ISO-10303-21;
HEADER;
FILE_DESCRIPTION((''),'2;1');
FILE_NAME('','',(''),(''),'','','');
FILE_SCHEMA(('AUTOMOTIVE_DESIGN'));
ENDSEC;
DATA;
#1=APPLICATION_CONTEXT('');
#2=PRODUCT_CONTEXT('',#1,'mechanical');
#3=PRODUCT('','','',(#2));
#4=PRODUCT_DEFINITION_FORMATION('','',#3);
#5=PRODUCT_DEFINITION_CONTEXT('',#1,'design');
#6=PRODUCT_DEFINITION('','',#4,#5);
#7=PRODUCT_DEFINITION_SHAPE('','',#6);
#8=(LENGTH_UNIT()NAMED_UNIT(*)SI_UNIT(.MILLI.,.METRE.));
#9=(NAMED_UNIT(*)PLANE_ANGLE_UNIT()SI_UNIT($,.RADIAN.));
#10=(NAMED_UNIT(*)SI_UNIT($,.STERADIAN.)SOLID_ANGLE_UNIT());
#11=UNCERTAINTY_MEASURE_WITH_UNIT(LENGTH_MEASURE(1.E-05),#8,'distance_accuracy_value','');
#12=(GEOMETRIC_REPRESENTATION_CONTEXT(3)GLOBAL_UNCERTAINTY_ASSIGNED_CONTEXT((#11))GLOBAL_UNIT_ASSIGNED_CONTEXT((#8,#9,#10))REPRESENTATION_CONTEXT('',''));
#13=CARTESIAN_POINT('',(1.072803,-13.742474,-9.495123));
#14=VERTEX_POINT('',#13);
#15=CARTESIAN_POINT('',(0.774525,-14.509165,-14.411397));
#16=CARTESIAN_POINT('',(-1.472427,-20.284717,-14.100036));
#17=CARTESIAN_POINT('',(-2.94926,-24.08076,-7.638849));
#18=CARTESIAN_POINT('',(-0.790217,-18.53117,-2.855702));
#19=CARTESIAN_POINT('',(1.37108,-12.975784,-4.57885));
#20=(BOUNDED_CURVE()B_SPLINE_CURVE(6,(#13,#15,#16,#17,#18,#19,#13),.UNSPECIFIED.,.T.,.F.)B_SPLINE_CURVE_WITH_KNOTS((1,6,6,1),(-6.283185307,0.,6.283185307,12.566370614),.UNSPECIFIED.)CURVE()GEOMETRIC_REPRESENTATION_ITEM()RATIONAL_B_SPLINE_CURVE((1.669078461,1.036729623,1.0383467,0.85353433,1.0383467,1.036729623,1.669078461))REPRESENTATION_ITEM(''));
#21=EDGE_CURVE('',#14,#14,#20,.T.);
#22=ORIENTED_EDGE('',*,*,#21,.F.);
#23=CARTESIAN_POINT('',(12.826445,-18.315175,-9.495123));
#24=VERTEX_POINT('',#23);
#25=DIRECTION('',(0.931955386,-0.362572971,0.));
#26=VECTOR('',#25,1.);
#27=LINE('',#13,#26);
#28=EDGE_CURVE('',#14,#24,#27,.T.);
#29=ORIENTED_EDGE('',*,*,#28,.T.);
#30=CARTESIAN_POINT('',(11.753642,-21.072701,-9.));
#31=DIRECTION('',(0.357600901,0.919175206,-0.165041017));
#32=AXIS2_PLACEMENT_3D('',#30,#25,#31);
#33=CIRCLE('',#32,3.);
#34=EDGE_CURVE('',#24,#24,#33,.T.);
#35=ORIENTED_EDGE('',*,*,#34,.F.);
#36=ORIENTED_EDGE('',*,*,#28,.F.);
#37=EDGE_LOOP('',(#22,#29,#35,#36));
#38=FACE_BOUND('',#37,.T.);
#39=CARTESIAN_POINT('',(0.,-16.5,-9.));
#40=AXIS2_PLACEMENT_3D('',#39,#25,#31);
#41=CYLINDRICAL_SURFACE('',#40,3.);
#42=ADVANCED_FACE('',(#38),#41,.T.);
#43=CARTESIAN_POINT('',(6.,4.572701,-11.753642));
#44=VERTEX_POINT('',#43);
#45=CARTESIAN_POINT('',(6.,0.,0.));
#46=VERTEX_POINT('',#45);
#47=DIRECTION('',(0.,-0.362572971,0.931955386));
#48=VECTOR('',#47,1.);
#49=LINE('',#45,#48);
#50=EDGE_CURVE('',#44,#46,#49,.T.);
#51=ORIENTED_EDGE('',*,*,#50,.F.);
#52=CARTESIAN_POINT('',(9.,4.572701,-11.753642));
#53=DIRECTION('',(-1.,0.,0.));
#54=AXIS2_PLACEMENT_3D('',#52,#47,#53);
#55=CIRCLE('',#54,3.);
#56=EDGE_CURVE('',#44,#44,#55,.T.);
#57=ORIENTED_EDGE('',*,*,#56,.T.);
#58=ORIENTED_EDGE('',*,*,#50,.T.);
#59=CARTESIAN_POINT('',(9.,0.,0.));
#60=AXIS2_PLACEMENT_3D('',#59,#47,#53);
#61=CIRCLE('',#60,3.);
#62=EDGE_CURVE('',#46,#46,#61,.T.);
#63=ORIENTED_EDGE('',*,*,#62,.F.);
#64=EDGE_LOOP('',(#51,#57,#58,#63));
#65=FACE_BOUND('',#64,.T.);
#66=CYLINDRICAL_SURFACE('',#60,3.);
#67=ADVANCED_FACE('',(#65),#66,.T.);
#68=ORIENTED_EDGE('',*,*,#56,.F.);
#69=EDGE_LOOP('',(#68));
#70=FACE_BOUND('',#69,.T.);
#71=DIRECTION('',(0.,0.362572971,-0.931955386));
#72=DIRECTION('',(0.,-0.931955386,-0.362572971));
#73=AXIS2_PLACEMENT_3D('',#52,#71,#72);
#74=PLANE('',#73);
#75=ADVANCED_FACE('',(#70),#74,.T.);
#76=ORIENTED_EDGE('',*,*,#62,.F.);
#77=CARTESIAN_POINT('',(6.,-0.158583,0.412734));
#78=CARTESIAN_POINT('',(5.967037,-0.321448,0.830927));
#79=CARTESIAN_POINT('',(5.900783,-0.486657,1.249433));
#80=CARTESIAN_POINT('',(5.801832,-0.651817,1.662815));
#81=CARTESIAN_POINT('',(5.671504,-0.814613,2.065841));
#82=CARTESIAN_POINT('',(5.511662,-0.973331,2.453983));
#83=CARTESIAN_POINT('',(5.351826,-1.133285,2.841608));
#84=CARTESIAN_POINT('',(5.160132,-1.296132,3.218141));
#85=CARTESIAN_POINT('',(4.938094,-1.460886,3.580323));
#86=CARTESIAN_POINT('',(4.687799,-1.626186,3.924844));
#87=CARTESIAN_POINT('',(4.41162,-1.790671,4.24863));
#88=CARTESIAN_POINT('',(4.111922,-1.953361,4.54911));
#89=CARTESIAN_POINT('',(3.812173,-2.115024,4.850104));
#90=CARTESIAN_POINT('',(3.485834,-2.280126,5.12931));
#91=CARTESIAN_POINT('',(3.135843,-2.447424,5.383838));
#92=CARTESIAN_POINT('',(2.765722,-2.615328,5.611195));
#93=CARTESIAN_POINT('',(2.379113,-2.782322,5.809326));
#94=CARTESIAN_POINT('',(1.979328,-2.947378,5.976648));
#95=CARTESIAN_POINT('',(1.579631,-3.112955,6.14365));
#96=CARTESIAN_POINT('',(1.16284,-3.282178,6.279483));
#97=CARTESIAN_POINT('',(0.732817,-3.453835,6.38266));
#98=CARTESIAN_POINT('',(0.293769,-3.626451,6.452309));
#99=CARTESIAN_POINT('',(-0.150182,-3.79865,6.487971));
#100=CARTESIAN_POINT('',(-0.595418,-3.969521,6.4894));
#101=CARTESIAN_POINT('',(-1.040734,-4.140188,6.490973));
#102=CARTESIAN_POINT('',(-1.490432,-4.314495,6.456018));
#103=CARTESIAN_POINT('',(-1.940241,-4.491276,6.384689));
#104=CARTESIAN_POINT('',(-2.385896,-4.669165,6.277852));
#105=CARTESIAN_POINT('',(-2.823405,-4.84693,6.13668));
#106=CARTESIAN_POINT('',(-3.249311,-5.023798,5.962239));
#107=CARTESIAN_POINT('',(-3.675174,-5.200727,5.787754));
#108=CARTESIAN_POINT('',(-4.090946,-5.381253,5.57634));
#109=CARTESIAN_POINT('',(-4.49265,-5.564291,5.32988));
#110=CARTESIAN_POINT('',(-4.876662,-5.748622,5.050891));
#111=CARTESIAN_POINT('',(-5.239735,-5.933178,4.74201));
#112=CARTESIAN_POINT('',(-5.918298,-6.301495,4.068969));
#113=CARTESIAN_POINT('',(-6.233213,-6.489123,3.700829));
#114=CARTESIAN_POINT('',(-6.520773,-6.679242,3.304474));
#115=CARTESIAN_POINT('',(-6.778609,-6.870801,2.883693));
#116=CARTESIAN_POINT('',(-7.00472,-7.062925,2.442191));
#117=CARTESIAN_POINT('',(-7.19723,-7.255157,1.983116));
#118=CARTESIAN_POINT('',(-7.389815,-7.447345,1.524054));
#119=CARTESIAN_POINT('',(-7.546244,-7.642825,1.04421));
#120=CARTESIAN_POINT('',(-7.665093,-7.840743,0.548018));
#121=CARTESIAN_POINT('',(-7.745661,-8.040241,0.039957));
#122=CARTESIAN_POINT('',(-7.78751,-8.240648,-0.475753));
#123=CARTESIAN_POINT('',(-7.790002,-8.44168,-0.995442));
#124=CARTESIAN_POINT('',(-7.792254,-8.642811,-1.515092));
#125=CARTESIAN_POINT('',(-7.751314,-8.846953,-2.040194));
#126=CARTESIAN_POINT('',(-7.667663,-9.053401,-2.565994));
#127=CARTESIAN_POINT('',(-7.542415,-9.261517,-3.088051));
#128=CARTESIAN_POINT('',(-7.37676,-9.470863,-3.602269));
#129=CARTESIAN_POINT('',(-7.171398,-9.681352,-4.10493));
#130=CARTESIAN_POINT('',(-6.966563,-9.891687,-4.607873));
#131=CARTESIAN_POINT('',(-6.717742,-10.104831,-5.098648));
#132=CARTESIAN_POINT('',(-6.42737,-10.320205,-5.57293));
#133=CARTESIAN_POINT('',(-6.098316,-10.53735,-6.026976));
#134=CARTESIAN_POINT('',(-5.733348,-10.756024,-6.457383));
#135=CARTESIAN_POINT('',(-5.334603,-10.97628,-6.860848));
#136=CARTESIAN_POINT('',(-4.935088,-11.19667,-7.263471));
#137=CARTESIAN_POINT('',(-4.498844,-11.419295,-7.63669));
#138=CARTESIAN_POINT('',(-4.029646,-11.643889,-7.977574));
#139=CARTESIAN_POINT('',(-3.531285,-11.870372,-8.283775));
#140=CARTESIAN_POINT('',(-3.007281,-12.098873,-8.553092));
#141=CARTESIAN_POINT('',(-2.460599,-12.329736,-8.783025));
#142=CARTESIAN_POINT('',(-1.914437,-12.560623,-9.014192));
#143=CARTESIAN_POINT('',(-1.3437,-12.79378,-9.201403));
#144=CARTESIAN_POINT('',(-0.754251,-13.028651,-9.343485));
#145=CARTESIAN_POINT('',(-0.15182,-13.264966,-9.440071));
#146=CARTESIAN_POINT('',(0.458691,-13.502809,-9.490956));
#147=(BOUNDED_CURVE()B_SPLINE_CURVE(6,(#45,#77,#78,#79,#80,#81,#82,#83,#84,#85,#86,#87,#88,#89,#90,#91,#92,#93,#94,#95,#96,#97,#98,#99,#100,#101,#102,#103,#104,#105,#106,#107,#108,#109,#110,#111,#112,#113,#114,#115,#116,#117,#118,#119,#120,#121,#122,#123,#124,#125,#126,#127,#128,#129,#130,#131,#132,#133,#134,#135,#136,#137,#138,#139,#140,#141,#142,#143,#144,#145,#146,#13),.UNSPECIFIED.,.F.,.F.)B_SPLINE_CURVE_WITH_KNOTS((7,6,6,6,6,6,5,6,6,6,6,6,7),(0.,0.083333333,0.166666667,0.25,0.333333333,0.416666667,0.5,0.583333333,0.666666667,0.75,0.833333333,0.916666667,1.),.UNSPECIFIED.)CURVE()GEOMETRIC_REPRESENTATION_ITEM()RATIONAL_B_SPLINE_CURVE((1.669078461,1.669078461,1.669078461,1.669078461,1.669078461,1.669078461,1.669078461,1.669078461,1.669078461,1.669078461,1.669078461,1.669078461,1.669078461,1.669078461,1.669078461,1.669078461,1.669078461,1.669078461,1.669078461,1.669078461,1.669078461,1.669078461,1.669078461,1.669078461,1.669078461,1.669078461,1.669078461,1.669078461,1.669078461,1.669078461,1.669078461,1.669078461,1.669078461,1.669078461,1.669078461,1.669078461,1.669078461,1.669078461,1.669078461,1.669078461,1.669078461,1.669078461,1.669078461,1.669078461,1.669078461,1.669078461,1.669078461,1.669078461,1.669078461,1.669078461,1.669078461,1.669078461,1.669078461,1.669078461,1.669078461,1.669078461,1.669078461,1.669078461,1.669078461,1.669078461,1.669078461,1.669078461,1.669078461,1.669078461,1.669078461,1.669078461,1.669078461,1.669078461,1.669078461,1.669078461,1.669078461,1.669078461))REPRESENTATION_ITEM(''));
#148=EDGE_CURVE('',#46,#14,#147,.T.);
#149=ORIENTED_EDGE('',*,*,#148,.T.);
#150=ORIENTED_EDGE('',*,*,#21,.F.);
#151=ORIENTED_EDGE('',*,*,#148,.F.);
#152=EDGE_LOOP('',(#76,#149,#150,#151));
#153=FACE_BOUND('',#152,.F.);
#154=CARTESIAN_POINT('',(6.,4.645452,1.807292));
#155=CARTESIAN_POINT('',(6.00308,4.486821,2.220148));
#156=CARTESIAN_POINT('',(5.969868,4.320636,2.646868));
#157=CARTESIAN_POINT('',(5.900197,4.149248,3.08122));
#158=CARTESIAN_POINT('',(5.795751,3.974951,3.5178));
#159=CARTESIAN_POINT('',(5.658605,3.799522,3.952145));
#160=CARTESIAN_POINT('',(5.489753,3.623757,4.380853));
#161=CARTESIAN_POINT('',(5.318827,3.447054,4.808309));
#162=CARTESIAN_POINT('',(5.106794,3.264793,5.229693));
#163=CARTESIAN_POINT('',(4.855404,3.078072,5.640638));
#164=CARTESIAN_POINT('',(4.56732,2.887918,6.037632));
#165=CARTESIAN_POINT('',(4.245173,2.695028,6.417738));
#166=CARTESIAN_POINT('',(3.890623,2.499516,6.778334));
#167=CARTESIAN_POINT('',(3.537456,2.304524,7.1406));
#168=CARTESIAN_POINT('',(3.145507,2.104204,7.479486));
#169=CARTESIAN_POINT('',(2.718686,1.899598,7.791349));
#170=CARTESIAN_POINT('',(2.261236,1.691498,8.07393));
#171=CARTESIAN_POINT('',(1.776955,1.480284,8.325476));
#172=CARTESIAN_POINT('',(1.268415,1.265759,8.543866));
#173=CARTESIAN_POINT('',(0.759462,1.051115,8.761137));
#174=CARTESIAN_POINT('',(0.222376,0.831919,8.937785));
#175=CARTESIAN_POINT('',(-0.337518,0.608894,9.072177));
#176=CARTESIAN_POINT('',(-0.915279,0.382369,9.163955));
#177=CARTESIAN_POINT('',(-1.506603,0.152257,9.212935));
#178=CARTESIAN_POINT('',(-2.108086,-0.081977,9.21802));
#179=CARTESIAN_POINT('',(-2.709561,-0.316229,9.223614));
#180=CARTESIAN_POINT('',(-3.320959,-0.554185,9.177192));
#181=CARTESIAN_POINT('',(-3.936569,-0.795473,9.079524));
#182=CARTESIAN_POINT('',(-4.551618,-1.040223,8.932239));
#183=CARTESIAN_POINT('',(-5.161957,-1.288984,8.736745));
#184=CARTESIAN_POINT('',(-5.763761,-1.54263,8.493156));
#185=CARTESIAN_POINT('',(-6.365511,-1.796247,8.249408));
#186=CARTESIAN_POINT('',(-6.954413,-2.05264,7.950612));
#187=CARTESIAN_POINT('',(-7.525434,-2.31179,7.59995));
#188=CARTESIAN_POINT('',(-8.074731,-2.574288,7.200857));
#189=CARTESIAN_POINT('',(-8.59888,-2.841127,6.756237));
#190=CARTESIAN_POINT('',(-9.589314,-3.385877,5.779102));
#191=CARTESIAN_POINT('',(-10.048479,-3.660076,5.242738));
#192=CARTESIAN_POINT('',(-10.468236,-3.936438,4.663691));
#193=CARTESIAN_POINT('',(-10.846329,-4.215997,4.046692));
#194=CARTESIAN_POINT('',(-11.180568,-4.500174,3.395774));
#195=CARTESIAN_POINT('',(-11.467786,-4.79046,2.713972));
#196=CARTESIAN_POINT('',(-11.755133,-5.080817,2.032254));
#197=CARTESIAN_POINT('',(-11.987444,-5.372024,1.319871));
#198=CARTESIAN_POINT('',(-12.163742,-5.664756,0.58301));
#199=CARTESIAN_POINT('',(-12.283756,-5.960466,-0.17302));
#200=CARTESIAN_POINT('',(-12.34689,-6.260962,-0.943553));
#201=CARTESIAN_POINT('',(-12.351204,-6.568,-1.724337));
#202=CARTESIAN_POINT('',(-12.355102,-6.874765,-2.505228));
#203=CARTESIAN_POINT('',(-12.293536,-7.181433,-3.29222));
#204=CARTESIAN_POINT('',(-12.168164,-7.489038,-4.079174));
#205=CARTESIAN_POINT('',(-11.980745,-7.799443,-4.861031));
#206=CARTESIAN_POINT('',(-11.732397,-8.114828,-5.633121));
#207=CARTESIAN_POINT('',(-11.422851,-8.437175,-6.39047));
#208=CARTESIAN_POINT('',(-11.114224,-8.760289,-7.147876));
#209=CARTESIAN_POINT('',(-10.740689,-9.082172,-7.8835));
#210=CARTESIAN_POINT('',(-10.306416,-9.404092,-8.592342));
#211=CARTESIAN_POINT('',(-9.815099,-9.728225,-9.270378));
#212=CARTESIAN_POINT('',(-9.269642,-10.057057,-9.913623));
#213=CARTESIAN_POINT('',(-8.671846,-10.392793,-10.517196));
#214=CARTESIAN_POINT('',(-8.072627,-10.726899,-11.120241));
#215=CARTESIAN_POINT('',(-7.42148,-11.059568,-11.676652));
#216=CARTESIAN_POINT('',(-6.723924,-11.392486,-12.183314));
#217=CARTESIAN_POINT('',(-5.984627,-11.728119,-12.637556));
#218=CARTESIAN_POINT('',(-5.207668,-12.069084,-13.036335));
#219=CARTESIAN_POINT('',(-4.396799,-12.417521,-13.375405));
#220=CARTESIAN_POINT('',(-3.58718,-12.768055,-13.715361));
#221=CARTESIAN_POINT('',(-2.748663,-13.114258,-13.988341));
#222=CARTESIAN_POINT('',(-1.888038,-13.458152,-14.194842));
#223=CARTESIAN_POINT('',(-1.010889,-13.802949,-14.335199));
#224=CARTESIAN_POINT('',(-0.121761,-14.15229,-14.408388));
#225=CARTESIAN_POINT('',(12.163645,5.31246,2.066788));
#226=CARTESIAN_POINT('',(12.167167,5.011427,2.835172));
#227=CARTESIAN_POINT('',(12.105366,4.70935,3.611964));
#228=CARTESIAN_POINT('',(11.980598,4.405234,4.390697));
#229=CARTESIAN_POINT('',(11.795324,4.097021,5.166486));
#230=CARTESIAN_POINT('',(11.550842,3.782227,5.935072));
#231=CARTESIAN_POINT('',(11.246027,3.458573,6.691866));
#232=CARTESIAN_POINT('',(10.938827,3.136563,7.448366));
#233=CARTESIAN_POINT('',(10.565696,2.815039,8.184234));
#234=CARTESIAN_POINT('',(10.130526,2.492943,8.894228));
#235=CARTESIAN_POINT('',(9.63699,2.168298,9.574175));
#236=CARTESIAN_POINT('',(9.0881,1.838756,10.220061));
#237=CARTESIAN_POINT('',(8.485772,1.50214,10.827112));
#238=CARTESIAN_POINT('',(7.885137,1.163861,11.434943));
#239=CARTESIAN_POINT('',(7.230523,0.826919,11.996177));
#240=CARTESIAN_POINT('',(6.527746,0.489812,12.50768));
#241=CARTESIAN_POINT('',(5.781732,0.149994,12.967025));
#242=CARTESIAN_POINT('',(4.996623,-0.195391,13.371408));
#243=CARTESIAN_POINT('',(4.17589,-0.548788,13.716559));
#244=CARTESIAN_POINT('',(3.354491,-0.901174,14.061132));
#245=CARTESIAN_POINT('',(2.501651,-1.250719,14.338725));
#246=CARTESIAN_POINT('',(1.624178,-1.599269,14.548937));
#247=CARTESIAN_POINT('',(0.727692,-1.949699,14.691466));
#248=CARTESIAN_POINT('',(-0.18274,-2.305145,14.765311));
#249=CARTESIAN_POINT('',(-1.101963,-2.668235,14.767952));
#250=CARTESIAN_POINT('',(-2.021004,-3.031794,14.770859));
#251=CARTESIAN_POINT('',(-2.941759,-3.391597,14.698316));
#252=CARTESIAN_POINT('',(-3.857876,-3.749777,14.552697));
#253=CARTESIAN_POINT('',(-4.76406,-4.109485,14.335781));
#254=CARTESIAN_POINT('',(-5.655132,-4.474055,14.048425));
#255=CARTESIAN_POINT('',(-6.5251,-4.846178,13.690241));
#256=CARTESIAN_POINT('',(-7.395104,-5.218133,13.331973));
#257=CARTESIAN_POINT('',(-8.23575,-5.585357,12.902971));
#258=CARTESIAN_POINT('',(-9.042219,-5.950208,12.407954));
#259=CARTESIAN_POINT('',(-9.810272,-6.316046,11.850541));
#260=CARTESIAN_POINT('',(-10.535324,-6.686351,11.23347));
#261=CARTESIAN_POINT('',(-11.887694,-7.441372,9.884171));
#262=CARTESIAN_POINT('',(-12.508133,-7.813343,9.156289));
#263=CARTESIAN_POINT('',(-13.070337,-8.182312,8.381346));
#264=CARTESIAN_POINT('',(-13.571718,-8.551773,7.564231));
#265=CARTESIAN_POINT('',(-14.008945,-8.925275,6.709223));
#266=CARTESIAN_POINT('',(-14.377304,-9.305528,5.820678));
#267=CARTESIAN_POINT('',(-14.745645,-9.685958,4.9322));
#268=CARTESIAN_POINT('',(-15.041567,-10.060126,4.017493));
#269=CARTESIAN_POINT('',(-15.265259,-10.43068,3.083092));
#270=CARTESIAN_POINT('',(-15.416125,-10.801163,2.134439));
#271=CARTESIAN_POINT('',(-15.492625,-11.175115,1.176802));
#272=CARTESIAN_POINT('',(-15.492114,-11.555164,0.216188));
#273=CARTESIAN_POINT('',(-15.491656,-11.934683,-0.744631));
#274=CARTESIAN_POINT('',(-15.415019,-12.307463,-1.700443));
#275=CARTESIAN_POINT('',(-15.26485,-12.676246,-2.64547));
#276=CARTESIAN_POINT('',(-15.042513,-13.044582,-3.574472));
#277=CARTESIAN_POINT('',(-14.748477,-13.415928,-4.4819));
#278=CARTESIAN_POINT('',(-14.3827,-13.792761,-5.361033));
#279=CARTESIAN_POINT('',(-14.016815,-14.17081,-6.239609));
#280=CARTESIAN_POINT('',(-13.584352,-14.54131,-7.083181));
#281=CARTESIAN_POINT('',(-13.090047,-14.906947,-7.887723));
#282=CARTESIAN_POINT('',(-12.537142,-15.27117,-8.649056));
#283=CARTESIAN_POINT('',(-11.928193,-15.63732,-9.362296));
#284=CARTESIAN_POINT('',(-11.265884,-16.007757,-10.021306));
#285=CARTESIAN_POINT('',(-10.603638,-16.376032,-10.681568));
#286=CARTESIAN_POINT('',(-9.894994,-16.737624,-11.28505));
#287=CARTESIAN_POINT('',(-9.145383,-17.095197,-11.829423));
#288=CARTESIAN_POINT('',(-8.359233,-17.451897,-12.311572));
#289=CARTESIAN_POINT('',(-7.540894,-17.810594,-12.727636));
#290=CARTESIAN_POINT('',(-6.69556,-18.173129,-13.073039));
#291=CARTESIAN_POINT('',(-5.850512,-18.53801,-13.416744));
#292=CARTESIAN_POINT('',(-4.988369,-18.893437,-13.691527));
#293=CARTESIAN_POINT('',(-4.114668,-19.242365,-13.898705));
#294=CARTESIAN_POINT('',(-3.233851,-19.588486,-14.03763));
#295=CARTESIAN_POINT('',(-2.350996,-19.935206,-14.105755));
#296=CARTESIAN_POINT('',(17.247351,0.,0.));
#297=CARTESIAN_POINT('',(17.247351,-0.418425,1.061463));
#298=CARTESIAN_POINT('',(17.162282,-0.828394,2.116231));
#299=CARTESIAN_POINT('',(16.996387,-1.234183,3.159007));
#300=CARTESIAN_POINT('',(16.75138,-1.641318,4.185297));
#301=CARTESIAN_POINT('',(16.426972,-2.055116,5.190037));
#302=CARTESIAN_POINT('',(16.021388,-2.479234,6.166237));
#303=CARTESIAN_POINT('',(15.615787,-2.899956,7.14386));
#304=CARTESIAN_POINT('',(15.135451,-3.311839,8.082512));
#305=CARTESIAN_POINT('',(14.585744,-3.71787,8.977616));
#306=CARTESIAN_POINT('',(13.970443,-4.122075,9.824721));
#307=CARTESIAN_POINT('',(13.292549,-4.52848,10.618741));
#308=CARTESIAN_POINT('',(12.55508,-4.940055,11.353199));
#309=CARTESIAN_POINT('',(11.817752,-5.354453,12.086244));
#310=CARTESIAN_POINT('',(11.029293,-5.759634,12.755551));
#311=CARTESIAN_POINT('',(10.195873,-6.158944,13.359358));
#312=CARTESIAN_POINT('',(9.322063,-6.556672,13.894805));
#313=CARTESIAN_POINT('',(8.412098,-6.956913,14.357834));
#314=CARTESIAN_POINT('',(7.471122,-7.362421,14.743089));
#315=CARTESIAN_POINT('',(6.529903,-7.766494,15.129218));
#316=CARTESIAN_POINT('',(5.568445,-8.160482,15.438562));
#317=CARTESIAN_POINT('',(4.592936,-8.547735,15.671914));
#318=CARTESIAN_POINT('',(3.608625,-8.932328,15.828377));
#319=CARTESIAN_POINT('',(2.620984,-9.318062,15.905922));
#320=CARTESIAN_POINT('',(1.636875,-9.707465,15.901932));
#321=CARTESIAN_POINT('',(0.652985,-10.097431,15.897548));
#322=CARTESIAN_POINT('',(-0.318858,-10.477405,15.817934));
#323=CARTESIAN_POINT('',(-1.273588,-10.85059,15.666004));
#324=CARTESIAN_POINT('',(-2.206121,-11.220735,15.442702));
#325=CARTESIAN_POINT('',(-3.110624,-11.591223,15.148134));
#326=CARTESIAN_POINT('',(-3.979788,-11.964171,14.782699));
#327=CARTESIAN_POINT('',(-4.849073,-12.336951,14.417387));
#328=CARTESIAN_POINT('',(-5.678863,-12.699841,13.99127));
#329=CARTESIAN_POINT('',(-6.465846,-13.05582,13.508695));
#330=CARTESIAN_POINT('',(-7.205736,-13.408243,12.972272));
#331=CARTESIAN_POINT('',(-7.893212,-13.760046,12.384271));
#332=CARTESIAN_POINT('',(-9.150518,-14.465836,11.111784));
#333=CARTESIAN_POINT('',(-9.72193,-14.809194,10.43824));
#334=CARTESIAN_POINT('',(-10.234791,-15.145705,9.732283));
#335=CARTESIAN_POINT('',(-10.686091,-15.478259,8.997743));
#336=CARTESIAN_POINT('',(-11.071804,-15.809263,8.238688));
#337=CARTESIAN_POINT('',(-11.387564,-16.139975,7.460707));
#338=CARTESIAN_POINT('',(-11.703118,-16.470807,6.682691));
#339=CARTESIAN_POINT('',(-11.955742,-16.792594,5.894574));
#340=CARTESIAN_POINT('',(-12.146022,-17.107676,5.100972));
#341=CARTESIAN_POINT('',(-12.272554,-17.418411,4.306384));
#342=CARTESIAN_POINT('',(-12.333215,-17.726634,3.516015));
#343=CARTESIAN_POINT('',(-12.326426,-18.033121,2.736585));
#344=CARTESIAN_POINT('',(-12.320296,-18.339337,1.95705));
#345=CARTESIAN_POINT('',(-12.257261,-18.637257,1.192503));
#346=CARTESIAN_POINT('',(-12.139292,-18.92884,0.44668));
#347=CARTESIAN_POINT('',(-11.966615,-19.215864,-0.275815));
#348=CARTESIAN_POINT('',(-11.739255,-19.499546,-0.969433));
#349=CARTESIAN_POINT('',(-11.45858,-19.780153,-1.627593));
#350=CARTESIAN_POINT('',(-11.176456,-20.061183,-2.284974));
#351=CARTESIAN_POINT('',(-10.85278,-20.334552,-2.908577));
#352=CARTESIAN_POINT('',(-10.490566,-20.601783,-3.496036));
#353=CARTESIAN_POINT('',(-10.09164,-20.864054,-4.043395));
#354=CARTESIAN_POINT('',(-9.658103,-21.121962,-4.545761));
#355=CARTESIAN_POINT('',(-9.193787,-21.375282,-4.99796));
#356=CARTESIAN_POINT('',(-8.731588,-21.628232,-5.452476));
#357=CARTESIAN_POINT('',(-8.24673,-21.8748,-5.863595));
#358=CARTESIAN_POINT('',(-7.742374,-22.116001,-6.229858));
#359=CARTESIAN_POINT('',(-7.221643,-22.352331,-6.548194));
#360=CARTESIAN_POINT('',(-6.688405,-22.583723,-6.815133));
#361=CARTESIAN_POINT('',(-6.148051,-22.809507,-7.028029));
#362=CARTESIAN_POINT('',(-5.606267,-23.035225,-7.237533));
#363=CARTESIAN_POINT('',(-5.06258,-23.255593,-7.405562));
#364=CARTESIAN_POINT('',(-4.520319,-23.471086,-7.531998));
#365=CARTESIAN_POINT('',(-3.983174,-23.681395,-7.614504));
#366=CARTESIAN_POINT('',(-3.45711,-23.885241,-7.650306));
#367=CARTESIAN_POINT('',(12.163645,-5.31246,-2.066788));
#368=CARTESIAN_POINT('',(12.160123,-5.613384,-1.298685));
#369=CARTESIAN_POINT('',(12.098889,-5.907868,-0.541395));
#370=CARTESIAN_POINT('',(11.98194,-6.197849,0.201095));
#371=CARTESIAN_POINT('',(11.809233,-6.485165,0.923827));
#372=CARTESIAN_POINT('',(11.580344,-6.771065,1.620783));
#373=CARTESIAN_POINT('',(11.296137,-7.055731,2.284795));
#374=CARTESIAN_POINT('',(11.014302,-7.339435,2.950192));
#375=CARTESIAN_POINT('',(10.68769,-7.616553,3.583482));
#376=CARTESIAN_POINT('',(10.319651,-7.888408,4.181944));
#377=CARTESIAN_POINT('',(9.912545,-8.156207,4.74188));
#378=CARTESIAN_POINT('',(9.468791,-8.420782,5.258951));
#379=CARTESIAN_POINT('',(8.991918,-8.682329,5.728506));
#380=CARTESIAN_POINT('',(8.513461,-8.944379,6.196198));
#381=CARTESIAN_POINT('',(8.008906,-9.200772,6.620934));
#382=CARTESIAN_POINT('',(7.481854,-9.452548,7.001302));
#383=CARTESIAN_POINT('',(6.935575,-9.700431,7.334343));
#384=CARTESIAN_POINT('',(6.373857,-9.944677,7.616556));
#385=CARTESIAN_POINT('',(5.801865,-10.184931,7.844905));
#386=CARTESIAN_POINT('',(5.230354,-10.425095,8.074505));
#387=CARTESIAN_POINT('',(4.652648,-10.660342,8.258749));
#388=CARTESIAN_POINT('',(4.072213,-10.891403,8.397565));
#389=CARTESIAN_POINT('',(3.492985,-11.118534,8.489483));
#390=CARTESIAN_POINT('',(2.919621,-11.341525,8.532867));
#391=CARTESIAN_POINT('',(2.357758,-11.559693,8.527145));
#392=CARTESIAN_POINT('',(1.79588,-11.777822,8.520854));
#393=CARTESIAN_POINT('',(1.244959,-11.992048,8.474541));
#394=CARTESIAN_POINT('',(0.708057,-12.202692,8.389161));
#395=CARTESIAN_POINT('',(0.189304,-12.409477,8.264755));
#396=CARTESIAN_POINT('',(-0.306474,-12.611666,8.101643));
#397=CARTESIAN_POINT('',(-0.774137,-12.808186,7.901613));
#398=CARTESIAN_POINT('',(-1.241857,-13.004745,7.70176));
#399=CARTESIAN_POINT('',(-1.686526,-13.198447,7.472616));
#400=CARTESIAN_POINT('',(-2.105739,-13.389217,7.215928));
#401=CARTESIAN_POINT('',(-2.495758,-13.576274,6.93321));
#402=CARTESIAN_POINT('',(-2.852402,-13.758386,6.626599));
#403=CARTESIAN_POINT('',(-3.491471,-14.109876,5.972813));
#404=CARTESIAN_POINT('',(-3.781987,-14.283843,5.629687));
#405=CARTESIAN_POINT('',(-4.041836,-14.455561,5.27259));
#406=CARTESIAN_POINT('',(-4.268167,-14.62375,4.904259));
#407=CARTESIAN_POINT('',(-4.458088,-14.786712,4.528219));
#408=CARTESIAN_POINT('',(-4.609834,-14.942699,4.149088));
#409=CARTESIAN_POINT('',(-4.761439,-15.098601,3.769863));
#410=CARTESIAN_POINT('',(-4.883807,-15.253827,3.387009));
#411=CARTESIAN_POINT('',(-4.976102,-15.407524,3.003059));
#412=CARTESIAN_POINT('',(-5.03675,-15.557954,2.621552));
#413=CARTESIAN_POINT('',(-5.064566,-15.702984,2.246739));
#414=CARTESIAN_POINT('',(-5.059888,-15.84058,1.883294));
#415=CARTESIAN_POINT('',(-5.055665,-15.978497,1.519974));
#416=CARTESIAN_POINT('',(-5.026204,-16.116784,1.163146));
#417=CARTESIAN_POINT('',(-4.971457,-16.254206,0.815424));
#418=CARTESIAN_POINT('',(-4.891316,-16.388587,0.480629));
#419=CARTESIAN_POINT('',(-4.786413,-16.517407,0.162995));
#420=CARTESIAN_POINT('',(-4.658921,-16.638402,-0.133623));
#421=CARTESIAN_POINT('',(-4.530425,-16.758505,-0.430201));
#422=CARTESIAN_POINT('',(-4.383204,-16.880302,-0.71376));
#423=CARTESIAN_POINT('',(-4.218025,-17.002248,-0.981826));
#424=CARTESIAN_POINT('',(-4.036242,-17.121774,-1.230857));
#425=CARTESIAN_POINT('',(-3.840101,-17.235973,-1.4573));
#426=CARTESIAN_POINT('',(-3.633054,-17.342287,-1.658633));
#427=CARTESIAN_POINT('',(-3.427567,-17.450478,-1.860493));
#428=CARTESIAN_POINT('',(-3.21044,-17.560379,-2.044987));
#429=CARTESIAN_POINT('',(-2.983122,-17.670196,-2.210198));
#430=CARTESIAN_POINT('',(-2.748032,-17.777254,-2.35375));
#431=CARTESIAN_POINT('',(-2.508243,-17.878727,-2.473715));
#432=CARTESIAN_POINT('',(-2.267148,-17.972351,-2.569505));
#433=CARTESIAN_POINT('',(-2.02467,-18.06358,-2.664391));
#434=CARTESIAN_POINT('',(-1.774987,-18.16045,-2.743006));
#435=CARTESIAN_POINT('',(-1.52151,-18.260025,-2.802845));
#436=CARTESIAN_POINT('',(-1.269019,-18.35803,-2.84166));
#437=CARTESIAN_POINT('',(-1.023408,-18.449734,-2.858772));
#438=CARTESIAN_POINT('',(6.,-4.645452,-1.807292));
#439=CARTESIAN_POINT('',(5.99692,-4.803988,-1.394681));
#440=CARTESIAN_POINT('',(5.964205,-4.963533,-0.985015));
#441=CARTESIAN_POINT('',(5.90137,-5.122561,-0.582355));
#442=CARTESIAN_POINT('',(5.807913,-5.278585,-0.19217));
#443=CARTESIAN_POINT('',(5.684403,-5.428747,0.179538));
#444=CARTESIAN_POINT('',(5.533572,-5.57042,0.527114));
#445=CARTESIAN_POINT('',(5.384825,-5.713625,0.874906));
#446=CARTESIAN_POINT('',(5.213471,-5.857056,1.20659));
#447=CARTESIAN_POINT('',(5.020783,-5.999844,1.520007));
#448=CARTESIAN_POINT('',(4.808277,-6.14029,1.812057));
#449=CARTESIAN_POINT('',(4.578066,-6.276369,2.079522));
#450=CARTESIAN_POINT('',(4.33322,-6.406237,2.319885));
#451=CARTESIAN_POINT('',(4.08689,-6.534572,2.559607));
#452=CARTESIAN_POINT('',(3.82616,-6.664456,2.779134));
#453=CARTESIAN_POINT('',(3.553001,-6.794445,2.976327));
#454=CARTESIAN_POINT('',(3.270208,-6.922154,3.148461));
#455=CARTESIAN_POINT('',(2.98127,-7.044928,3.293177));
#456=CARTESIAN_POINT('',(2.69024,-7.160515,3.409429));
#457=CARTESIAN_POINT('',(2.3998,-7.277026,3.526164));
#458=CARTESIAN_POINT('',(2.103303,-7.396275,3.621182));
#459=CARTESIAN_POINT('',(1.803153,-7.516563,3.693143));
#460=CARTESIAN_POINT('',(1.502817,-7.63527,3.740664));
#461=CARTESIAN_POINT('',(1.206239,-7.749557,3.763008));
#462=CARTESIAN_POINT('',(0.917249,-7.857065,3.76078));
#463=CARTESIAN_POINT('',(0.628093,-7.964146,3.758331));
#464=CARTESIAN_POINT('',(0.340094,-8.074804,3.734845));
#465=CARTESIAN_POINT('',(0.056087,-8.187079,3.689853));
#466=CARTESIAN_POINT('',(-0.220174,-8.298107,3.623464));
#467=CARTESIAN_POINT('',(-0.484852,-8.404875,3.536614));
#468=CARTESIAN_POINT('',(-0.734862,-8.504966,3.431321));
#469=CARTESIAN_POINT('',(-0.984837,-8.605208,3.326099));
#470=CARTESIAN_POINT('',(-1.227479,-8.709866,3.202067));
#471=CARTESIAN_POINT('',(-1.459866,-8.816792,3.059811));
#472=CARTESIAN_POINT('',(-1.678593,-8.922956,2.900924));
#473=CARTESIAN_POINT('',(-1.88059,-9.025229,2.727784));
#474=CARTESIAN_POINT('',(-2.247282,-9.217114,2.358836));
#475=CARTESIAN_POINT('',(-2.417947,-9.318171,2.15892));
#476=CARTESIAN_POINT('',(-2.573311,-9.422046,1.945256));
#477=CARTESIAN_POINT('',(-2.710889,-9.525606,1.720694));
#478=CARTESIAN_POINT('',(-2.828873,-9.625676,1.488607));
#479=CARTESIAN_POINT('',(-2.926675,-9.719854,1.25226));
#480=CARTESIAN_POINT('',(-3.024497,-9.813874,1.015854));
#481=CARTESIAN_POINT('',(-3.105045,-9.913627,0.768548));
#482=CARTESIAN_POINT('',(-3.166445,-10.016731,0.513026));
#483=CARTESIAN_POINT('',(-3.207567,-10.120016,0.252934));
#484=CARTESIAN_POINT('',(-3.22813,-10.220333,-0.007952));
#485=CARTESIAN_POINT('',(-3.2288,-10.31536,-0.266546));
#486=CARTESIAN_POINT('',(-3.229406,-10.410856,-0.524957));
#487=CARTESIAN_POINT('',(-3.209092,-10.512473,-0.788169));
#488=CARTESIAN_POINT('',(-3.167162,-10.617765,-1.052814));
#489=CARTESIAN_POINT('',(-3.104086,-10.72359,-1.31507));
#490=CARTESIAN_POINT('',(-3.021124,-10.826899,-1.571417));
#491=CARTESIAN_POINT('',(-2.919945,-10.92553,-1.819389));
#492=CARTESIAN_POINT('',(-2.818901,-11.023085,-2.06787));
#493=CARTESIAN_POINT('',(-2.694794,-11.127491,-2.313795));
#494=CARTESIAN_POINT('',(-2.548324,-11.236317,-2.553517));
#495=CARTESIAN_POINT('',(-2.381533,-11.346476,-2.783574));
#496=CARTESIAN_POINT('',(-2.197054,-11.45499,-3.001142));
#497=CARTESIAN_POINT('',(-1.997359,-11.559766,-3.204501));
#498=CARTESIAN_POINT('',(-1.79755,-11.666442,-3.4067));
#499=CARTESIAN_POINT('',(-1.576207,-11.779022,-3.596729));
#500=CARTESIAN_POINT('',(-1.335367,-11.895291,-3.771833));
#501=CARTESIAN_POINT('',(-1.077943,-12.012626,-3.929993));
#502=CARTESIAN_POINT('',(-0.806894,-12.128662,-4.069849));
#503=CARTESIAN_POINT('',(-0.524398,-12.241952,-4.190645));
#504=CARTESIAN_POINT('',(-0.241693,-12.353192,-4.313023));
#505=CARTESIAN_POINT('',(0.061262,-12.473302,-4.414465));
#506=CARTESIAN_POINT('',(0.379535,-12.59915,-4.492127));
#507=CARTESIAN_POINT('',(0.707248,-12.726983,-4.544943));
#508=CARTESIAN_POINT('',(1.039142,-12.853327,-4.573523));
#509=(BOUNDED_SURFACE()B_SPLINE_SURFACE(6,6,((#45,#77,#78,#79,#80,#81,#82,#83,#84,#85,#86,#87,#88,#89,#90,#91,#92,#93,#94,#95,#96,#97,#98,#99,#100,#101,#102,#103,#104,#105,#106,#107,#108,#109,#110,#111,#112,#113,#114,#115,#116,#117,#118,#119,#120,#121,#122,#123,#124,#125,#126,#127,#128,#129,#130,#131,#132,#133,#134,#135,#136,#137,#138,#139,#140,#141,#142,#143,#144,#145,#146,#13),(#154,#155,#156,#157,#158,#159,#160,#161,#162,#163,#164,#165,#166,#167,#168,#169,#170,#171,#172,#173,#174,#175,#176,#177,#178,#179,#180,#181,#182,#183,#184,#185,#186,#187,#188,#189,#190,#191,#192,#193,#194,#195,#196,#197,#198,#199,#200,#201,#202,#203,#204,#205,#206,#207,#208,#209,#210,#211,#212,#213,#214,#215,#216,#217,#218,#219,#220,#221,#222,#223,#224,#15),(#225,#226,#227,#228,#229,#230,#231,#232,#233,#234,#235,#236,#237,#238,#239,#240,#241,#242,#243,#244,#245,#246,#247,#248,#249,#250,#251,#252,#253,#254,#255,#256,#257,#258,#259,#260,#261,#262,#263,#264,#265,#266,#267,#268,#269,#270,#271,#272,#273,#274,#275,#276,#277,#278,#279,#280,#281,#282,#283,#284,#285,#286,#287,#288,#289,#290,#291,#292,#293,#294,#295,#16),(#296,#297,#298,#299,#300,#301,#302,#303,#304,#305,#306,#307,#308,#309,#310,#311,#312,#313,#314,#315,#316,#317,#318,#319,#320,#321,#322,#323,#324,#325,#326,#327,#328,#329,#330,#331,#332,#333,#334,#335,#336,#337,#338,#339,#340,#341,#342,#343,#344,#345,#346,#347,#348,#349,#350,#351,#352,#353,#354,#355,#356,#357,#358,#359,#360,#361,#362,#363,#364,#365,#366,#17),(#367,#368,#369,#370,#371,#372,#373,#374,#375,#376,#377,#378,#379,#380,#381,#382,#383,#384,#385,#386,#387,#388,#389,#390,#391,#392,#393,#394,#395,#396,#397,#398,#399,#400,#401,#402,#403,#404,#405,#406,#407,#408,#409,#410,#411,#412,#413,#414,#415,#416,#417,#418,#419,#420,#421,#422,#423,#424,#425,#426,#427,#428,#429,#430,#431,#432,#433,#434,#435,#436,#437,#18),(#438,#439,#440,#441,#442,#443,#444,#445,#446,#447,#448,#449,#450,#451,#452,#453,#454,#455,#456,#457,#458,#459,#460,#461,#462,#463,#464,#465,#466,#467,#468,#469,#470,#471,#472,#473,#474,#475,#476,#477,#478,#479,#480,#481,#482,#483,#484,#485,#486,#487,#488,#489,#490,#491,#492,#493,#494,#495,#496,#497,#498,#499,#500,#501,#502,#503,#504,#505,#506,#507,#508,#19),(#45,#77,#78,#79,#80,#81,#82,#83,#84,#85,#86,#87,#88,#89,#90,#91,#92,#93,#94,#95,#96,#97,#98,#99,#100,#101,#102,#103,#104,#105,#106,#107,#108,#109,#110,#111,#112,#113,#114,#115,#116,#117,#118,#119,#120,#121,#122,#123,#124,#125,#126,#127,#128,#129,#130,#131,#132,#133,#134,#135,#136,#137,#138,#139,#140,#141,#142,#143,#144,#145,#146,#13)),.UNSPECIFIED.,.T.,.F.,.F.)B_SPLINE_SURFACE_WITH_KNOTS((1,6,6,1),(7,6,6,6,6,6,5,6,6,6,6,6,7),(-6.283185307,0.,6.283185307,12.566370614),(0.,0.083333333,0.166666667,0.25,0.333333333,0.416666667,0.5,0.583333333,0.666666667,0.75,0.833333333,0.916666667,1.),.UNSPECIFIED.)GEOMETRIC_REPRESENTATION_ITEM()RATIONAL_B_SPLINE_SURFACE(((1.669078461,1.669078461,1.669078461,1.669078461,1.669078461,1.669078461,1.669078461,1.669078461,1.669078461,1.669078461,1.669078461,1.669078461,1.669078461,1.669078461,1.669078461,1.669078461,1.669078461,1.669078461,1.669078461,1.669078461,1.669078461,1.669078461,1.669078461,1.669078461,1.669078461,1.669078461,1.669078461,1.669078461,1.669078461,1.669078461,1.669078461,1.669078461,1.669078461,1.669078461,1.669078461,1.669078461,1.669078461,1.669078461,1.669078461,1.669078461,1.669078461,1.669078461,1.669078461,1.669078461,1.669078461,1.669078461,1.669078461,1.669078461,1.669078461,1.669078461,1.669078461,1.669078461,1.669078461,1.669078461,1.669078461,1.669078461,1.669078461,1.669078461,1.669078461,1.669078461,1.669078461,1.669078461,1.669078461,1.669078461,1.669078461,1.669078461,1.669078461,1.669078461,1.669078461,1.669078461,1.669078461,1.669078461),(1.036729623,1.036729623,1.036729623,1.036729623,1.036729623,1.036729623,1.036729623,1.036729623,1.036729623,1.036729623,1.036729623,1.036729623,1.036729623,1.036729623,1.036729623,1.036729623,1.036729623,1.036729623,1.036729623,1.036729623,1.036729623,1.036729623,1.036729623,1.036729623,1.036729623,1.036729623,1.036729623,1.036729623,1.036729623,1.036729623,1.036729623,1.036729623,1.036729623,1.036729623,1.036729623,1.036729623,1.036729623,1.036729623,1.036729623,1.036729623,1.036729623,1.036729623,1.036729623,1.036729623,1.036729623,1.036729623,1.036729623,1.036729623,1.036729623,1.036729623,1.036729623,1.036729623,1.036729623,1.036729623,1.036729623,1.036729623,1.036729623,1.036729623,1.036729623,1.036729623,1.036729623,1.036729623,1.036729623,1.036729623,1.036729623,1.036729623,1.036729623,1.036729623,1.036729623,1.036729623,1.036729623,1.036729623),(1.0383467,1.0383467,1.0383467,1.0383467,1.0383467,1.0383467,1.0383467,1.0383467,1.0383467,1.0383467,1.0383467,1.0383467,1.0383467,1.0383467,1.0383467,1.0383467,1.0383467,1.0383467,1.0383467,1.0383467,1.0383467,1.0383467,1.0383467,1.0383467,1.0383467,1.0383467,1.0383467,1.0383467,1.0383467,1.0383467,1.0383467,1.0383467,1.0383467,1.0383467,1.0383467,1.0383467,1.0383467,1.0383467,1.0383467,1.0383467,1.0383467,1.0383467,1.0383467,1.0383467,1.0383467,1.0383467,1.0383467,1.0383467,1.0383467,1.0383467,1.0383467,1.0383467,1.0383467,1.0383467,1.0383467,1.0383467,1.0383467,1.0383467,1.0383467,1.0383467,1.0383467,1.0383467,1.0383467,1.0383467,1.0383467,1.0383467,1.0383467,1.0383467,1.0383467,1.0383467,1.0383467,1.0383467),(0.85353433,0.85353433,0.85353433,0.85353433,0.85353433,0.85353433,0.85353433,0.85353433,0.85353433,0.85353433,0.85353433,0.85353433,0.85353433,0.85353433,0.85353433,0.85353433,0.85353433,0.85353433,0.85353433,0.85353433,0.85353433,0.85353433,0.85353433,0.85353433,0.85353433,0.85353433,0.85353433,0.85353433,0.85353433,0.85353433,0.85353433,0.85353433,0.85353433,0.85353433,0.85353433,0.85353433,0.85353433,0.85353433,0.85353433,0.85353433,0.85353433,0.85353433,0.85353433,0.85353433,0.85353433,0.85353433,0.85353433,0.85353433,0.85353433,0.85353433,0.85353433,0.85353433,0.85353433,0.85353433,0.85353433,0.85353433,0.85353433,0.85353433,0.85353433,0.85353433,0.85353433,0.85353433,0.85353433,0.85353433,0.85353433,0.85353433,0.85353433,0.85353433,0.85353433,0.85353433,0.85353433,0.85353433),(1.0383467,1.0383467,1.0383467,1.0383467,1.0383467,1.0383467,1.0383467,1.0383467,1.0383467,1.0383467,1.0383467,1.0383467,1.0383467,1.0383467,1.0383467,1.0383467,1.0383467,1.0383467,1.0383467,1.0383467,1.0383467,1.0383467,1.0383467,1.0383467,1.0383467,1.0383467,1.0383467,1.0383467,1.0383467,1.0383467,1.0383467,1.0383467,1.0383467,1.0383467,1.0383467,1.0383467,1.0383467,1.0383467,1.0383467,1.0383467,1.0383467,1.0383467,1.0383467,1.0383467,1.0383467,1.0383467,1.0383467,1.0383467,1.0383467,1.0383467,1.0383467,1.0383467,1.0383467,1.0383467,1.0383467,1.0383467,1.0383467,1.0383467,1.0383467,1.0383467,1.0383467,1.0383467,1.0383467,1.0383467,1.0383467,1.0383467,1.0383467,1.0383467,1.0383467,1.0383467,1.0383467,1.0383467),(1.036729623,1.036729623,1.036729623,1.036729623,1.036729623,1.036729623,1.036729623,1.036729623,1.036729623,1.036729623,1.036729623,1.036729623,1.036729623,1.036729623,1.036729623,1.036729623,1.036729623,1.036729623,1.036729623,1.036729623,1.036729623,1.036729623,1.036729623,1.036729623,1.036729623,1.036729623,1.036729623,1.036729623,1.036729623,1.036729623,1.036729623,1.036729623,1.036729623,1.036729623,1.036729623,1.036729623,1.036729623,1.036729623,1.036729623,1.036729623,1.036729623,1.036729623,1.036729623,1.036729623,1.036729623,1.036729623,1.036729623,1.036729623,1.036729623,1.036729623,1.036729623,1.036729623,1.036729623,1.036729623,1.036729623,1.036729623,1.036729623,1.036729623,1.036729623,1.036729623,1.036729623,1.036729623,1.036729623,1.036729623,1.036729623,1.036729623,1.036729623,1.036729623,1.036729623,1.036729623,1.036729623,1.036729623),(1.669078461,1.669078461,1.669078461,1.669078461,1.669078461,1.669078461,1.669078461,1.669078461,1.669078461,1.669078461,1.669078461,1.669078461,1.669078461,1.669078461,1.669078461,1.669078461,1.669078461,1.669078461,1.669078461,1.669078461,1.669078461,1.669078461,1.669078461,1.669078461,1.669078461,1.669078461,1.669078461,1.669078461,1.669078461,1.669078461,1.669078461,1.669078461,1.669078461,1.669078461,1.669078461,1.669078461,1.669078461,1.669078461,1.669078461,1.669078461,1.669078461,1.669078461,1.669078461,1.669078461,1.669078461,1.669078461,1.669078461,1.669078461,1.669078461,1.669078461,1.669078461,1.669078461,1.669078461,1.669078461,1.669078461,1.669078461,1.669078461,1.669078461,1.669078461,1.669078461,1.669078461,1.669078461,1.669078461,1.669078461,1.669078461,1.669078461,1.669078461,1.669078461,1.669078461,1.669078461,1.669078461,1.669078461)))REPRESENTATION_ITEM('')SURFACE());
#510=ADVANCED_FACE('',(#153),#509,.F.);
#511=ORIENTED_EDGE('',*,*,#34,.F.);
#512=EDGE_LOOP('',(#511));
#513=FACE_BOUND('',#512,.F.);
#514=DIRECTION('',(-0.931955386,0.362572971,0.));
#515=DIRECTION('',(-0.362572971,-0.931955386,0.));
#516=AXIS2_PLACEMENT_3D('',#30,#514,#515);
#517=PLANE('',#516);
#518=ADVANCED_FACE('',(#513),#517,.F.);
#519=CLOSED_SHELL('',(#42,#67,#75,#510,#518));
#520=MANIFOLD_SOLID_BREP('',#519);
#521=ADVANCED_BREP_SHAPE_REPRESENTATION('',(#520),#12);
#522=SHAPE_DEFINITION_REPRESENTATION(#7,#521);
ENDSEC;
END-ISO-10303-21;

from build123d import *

# Parameters (mm, degrees)
SKIZZE5_R = 3


with BuildPart() as part:
    # Austragung1: sweep along a curve in space
    with BuildLine() as austragung1_path:
        Line((0, -16.5, -9), (11.753641908, -21.072700511, -9))
        add(Edge.make_bspline(
            [(9, 0, 0), (9, -0.455781461, 1.171537929), (8.531386838, -1.376184325, 3.536786751), (6.529640822, -2.749682669, 6.528844827), (3.533816058, -4.125084999, 8.531600125), (2.95e-07, -5.499977333, 9.23424943), (-3.533817236, -6.875005667, 8.531402157), (-6.529636698, -8.25, 6.529636698), (-8.531402157, -9.624994333, 3.533817236), (-9.23424943, -11.000022667, -2.95e-07), (-8.531600125, -12.374915001, -3.533816058), (-6.528844827, -13.750317331, -6.529640822), (-3.536786751, -15.123815675, -8.531386838), (-1.171537929, -16.044218539, -9), (0, -16.5, -9)],
            knots=[0, 0, 0, 0, 0.083333333, 0.166666667, 0.25, 0.333333333, 0.416666667, 0.5, 0.583333333, 0.666666667, 0.75, 0.833333333, 0.916666667, 1, 1, 1, 1], degree=3))
        Line((9, 0, 0), (9, 4.572700511, -11.753641908))
    # Skizze5 → Austragung1 (sweep)
    with BuildSketch(Plane(origin=(9, 4.572700511, -11.753641908), x_dir=(-1, 0, 0), z_dir=(0, 0.362572971, -0.931955386))):
        Circle(SKIZZE5_R)
    sweep(path=austragung1_path.line)


solid = part.part
